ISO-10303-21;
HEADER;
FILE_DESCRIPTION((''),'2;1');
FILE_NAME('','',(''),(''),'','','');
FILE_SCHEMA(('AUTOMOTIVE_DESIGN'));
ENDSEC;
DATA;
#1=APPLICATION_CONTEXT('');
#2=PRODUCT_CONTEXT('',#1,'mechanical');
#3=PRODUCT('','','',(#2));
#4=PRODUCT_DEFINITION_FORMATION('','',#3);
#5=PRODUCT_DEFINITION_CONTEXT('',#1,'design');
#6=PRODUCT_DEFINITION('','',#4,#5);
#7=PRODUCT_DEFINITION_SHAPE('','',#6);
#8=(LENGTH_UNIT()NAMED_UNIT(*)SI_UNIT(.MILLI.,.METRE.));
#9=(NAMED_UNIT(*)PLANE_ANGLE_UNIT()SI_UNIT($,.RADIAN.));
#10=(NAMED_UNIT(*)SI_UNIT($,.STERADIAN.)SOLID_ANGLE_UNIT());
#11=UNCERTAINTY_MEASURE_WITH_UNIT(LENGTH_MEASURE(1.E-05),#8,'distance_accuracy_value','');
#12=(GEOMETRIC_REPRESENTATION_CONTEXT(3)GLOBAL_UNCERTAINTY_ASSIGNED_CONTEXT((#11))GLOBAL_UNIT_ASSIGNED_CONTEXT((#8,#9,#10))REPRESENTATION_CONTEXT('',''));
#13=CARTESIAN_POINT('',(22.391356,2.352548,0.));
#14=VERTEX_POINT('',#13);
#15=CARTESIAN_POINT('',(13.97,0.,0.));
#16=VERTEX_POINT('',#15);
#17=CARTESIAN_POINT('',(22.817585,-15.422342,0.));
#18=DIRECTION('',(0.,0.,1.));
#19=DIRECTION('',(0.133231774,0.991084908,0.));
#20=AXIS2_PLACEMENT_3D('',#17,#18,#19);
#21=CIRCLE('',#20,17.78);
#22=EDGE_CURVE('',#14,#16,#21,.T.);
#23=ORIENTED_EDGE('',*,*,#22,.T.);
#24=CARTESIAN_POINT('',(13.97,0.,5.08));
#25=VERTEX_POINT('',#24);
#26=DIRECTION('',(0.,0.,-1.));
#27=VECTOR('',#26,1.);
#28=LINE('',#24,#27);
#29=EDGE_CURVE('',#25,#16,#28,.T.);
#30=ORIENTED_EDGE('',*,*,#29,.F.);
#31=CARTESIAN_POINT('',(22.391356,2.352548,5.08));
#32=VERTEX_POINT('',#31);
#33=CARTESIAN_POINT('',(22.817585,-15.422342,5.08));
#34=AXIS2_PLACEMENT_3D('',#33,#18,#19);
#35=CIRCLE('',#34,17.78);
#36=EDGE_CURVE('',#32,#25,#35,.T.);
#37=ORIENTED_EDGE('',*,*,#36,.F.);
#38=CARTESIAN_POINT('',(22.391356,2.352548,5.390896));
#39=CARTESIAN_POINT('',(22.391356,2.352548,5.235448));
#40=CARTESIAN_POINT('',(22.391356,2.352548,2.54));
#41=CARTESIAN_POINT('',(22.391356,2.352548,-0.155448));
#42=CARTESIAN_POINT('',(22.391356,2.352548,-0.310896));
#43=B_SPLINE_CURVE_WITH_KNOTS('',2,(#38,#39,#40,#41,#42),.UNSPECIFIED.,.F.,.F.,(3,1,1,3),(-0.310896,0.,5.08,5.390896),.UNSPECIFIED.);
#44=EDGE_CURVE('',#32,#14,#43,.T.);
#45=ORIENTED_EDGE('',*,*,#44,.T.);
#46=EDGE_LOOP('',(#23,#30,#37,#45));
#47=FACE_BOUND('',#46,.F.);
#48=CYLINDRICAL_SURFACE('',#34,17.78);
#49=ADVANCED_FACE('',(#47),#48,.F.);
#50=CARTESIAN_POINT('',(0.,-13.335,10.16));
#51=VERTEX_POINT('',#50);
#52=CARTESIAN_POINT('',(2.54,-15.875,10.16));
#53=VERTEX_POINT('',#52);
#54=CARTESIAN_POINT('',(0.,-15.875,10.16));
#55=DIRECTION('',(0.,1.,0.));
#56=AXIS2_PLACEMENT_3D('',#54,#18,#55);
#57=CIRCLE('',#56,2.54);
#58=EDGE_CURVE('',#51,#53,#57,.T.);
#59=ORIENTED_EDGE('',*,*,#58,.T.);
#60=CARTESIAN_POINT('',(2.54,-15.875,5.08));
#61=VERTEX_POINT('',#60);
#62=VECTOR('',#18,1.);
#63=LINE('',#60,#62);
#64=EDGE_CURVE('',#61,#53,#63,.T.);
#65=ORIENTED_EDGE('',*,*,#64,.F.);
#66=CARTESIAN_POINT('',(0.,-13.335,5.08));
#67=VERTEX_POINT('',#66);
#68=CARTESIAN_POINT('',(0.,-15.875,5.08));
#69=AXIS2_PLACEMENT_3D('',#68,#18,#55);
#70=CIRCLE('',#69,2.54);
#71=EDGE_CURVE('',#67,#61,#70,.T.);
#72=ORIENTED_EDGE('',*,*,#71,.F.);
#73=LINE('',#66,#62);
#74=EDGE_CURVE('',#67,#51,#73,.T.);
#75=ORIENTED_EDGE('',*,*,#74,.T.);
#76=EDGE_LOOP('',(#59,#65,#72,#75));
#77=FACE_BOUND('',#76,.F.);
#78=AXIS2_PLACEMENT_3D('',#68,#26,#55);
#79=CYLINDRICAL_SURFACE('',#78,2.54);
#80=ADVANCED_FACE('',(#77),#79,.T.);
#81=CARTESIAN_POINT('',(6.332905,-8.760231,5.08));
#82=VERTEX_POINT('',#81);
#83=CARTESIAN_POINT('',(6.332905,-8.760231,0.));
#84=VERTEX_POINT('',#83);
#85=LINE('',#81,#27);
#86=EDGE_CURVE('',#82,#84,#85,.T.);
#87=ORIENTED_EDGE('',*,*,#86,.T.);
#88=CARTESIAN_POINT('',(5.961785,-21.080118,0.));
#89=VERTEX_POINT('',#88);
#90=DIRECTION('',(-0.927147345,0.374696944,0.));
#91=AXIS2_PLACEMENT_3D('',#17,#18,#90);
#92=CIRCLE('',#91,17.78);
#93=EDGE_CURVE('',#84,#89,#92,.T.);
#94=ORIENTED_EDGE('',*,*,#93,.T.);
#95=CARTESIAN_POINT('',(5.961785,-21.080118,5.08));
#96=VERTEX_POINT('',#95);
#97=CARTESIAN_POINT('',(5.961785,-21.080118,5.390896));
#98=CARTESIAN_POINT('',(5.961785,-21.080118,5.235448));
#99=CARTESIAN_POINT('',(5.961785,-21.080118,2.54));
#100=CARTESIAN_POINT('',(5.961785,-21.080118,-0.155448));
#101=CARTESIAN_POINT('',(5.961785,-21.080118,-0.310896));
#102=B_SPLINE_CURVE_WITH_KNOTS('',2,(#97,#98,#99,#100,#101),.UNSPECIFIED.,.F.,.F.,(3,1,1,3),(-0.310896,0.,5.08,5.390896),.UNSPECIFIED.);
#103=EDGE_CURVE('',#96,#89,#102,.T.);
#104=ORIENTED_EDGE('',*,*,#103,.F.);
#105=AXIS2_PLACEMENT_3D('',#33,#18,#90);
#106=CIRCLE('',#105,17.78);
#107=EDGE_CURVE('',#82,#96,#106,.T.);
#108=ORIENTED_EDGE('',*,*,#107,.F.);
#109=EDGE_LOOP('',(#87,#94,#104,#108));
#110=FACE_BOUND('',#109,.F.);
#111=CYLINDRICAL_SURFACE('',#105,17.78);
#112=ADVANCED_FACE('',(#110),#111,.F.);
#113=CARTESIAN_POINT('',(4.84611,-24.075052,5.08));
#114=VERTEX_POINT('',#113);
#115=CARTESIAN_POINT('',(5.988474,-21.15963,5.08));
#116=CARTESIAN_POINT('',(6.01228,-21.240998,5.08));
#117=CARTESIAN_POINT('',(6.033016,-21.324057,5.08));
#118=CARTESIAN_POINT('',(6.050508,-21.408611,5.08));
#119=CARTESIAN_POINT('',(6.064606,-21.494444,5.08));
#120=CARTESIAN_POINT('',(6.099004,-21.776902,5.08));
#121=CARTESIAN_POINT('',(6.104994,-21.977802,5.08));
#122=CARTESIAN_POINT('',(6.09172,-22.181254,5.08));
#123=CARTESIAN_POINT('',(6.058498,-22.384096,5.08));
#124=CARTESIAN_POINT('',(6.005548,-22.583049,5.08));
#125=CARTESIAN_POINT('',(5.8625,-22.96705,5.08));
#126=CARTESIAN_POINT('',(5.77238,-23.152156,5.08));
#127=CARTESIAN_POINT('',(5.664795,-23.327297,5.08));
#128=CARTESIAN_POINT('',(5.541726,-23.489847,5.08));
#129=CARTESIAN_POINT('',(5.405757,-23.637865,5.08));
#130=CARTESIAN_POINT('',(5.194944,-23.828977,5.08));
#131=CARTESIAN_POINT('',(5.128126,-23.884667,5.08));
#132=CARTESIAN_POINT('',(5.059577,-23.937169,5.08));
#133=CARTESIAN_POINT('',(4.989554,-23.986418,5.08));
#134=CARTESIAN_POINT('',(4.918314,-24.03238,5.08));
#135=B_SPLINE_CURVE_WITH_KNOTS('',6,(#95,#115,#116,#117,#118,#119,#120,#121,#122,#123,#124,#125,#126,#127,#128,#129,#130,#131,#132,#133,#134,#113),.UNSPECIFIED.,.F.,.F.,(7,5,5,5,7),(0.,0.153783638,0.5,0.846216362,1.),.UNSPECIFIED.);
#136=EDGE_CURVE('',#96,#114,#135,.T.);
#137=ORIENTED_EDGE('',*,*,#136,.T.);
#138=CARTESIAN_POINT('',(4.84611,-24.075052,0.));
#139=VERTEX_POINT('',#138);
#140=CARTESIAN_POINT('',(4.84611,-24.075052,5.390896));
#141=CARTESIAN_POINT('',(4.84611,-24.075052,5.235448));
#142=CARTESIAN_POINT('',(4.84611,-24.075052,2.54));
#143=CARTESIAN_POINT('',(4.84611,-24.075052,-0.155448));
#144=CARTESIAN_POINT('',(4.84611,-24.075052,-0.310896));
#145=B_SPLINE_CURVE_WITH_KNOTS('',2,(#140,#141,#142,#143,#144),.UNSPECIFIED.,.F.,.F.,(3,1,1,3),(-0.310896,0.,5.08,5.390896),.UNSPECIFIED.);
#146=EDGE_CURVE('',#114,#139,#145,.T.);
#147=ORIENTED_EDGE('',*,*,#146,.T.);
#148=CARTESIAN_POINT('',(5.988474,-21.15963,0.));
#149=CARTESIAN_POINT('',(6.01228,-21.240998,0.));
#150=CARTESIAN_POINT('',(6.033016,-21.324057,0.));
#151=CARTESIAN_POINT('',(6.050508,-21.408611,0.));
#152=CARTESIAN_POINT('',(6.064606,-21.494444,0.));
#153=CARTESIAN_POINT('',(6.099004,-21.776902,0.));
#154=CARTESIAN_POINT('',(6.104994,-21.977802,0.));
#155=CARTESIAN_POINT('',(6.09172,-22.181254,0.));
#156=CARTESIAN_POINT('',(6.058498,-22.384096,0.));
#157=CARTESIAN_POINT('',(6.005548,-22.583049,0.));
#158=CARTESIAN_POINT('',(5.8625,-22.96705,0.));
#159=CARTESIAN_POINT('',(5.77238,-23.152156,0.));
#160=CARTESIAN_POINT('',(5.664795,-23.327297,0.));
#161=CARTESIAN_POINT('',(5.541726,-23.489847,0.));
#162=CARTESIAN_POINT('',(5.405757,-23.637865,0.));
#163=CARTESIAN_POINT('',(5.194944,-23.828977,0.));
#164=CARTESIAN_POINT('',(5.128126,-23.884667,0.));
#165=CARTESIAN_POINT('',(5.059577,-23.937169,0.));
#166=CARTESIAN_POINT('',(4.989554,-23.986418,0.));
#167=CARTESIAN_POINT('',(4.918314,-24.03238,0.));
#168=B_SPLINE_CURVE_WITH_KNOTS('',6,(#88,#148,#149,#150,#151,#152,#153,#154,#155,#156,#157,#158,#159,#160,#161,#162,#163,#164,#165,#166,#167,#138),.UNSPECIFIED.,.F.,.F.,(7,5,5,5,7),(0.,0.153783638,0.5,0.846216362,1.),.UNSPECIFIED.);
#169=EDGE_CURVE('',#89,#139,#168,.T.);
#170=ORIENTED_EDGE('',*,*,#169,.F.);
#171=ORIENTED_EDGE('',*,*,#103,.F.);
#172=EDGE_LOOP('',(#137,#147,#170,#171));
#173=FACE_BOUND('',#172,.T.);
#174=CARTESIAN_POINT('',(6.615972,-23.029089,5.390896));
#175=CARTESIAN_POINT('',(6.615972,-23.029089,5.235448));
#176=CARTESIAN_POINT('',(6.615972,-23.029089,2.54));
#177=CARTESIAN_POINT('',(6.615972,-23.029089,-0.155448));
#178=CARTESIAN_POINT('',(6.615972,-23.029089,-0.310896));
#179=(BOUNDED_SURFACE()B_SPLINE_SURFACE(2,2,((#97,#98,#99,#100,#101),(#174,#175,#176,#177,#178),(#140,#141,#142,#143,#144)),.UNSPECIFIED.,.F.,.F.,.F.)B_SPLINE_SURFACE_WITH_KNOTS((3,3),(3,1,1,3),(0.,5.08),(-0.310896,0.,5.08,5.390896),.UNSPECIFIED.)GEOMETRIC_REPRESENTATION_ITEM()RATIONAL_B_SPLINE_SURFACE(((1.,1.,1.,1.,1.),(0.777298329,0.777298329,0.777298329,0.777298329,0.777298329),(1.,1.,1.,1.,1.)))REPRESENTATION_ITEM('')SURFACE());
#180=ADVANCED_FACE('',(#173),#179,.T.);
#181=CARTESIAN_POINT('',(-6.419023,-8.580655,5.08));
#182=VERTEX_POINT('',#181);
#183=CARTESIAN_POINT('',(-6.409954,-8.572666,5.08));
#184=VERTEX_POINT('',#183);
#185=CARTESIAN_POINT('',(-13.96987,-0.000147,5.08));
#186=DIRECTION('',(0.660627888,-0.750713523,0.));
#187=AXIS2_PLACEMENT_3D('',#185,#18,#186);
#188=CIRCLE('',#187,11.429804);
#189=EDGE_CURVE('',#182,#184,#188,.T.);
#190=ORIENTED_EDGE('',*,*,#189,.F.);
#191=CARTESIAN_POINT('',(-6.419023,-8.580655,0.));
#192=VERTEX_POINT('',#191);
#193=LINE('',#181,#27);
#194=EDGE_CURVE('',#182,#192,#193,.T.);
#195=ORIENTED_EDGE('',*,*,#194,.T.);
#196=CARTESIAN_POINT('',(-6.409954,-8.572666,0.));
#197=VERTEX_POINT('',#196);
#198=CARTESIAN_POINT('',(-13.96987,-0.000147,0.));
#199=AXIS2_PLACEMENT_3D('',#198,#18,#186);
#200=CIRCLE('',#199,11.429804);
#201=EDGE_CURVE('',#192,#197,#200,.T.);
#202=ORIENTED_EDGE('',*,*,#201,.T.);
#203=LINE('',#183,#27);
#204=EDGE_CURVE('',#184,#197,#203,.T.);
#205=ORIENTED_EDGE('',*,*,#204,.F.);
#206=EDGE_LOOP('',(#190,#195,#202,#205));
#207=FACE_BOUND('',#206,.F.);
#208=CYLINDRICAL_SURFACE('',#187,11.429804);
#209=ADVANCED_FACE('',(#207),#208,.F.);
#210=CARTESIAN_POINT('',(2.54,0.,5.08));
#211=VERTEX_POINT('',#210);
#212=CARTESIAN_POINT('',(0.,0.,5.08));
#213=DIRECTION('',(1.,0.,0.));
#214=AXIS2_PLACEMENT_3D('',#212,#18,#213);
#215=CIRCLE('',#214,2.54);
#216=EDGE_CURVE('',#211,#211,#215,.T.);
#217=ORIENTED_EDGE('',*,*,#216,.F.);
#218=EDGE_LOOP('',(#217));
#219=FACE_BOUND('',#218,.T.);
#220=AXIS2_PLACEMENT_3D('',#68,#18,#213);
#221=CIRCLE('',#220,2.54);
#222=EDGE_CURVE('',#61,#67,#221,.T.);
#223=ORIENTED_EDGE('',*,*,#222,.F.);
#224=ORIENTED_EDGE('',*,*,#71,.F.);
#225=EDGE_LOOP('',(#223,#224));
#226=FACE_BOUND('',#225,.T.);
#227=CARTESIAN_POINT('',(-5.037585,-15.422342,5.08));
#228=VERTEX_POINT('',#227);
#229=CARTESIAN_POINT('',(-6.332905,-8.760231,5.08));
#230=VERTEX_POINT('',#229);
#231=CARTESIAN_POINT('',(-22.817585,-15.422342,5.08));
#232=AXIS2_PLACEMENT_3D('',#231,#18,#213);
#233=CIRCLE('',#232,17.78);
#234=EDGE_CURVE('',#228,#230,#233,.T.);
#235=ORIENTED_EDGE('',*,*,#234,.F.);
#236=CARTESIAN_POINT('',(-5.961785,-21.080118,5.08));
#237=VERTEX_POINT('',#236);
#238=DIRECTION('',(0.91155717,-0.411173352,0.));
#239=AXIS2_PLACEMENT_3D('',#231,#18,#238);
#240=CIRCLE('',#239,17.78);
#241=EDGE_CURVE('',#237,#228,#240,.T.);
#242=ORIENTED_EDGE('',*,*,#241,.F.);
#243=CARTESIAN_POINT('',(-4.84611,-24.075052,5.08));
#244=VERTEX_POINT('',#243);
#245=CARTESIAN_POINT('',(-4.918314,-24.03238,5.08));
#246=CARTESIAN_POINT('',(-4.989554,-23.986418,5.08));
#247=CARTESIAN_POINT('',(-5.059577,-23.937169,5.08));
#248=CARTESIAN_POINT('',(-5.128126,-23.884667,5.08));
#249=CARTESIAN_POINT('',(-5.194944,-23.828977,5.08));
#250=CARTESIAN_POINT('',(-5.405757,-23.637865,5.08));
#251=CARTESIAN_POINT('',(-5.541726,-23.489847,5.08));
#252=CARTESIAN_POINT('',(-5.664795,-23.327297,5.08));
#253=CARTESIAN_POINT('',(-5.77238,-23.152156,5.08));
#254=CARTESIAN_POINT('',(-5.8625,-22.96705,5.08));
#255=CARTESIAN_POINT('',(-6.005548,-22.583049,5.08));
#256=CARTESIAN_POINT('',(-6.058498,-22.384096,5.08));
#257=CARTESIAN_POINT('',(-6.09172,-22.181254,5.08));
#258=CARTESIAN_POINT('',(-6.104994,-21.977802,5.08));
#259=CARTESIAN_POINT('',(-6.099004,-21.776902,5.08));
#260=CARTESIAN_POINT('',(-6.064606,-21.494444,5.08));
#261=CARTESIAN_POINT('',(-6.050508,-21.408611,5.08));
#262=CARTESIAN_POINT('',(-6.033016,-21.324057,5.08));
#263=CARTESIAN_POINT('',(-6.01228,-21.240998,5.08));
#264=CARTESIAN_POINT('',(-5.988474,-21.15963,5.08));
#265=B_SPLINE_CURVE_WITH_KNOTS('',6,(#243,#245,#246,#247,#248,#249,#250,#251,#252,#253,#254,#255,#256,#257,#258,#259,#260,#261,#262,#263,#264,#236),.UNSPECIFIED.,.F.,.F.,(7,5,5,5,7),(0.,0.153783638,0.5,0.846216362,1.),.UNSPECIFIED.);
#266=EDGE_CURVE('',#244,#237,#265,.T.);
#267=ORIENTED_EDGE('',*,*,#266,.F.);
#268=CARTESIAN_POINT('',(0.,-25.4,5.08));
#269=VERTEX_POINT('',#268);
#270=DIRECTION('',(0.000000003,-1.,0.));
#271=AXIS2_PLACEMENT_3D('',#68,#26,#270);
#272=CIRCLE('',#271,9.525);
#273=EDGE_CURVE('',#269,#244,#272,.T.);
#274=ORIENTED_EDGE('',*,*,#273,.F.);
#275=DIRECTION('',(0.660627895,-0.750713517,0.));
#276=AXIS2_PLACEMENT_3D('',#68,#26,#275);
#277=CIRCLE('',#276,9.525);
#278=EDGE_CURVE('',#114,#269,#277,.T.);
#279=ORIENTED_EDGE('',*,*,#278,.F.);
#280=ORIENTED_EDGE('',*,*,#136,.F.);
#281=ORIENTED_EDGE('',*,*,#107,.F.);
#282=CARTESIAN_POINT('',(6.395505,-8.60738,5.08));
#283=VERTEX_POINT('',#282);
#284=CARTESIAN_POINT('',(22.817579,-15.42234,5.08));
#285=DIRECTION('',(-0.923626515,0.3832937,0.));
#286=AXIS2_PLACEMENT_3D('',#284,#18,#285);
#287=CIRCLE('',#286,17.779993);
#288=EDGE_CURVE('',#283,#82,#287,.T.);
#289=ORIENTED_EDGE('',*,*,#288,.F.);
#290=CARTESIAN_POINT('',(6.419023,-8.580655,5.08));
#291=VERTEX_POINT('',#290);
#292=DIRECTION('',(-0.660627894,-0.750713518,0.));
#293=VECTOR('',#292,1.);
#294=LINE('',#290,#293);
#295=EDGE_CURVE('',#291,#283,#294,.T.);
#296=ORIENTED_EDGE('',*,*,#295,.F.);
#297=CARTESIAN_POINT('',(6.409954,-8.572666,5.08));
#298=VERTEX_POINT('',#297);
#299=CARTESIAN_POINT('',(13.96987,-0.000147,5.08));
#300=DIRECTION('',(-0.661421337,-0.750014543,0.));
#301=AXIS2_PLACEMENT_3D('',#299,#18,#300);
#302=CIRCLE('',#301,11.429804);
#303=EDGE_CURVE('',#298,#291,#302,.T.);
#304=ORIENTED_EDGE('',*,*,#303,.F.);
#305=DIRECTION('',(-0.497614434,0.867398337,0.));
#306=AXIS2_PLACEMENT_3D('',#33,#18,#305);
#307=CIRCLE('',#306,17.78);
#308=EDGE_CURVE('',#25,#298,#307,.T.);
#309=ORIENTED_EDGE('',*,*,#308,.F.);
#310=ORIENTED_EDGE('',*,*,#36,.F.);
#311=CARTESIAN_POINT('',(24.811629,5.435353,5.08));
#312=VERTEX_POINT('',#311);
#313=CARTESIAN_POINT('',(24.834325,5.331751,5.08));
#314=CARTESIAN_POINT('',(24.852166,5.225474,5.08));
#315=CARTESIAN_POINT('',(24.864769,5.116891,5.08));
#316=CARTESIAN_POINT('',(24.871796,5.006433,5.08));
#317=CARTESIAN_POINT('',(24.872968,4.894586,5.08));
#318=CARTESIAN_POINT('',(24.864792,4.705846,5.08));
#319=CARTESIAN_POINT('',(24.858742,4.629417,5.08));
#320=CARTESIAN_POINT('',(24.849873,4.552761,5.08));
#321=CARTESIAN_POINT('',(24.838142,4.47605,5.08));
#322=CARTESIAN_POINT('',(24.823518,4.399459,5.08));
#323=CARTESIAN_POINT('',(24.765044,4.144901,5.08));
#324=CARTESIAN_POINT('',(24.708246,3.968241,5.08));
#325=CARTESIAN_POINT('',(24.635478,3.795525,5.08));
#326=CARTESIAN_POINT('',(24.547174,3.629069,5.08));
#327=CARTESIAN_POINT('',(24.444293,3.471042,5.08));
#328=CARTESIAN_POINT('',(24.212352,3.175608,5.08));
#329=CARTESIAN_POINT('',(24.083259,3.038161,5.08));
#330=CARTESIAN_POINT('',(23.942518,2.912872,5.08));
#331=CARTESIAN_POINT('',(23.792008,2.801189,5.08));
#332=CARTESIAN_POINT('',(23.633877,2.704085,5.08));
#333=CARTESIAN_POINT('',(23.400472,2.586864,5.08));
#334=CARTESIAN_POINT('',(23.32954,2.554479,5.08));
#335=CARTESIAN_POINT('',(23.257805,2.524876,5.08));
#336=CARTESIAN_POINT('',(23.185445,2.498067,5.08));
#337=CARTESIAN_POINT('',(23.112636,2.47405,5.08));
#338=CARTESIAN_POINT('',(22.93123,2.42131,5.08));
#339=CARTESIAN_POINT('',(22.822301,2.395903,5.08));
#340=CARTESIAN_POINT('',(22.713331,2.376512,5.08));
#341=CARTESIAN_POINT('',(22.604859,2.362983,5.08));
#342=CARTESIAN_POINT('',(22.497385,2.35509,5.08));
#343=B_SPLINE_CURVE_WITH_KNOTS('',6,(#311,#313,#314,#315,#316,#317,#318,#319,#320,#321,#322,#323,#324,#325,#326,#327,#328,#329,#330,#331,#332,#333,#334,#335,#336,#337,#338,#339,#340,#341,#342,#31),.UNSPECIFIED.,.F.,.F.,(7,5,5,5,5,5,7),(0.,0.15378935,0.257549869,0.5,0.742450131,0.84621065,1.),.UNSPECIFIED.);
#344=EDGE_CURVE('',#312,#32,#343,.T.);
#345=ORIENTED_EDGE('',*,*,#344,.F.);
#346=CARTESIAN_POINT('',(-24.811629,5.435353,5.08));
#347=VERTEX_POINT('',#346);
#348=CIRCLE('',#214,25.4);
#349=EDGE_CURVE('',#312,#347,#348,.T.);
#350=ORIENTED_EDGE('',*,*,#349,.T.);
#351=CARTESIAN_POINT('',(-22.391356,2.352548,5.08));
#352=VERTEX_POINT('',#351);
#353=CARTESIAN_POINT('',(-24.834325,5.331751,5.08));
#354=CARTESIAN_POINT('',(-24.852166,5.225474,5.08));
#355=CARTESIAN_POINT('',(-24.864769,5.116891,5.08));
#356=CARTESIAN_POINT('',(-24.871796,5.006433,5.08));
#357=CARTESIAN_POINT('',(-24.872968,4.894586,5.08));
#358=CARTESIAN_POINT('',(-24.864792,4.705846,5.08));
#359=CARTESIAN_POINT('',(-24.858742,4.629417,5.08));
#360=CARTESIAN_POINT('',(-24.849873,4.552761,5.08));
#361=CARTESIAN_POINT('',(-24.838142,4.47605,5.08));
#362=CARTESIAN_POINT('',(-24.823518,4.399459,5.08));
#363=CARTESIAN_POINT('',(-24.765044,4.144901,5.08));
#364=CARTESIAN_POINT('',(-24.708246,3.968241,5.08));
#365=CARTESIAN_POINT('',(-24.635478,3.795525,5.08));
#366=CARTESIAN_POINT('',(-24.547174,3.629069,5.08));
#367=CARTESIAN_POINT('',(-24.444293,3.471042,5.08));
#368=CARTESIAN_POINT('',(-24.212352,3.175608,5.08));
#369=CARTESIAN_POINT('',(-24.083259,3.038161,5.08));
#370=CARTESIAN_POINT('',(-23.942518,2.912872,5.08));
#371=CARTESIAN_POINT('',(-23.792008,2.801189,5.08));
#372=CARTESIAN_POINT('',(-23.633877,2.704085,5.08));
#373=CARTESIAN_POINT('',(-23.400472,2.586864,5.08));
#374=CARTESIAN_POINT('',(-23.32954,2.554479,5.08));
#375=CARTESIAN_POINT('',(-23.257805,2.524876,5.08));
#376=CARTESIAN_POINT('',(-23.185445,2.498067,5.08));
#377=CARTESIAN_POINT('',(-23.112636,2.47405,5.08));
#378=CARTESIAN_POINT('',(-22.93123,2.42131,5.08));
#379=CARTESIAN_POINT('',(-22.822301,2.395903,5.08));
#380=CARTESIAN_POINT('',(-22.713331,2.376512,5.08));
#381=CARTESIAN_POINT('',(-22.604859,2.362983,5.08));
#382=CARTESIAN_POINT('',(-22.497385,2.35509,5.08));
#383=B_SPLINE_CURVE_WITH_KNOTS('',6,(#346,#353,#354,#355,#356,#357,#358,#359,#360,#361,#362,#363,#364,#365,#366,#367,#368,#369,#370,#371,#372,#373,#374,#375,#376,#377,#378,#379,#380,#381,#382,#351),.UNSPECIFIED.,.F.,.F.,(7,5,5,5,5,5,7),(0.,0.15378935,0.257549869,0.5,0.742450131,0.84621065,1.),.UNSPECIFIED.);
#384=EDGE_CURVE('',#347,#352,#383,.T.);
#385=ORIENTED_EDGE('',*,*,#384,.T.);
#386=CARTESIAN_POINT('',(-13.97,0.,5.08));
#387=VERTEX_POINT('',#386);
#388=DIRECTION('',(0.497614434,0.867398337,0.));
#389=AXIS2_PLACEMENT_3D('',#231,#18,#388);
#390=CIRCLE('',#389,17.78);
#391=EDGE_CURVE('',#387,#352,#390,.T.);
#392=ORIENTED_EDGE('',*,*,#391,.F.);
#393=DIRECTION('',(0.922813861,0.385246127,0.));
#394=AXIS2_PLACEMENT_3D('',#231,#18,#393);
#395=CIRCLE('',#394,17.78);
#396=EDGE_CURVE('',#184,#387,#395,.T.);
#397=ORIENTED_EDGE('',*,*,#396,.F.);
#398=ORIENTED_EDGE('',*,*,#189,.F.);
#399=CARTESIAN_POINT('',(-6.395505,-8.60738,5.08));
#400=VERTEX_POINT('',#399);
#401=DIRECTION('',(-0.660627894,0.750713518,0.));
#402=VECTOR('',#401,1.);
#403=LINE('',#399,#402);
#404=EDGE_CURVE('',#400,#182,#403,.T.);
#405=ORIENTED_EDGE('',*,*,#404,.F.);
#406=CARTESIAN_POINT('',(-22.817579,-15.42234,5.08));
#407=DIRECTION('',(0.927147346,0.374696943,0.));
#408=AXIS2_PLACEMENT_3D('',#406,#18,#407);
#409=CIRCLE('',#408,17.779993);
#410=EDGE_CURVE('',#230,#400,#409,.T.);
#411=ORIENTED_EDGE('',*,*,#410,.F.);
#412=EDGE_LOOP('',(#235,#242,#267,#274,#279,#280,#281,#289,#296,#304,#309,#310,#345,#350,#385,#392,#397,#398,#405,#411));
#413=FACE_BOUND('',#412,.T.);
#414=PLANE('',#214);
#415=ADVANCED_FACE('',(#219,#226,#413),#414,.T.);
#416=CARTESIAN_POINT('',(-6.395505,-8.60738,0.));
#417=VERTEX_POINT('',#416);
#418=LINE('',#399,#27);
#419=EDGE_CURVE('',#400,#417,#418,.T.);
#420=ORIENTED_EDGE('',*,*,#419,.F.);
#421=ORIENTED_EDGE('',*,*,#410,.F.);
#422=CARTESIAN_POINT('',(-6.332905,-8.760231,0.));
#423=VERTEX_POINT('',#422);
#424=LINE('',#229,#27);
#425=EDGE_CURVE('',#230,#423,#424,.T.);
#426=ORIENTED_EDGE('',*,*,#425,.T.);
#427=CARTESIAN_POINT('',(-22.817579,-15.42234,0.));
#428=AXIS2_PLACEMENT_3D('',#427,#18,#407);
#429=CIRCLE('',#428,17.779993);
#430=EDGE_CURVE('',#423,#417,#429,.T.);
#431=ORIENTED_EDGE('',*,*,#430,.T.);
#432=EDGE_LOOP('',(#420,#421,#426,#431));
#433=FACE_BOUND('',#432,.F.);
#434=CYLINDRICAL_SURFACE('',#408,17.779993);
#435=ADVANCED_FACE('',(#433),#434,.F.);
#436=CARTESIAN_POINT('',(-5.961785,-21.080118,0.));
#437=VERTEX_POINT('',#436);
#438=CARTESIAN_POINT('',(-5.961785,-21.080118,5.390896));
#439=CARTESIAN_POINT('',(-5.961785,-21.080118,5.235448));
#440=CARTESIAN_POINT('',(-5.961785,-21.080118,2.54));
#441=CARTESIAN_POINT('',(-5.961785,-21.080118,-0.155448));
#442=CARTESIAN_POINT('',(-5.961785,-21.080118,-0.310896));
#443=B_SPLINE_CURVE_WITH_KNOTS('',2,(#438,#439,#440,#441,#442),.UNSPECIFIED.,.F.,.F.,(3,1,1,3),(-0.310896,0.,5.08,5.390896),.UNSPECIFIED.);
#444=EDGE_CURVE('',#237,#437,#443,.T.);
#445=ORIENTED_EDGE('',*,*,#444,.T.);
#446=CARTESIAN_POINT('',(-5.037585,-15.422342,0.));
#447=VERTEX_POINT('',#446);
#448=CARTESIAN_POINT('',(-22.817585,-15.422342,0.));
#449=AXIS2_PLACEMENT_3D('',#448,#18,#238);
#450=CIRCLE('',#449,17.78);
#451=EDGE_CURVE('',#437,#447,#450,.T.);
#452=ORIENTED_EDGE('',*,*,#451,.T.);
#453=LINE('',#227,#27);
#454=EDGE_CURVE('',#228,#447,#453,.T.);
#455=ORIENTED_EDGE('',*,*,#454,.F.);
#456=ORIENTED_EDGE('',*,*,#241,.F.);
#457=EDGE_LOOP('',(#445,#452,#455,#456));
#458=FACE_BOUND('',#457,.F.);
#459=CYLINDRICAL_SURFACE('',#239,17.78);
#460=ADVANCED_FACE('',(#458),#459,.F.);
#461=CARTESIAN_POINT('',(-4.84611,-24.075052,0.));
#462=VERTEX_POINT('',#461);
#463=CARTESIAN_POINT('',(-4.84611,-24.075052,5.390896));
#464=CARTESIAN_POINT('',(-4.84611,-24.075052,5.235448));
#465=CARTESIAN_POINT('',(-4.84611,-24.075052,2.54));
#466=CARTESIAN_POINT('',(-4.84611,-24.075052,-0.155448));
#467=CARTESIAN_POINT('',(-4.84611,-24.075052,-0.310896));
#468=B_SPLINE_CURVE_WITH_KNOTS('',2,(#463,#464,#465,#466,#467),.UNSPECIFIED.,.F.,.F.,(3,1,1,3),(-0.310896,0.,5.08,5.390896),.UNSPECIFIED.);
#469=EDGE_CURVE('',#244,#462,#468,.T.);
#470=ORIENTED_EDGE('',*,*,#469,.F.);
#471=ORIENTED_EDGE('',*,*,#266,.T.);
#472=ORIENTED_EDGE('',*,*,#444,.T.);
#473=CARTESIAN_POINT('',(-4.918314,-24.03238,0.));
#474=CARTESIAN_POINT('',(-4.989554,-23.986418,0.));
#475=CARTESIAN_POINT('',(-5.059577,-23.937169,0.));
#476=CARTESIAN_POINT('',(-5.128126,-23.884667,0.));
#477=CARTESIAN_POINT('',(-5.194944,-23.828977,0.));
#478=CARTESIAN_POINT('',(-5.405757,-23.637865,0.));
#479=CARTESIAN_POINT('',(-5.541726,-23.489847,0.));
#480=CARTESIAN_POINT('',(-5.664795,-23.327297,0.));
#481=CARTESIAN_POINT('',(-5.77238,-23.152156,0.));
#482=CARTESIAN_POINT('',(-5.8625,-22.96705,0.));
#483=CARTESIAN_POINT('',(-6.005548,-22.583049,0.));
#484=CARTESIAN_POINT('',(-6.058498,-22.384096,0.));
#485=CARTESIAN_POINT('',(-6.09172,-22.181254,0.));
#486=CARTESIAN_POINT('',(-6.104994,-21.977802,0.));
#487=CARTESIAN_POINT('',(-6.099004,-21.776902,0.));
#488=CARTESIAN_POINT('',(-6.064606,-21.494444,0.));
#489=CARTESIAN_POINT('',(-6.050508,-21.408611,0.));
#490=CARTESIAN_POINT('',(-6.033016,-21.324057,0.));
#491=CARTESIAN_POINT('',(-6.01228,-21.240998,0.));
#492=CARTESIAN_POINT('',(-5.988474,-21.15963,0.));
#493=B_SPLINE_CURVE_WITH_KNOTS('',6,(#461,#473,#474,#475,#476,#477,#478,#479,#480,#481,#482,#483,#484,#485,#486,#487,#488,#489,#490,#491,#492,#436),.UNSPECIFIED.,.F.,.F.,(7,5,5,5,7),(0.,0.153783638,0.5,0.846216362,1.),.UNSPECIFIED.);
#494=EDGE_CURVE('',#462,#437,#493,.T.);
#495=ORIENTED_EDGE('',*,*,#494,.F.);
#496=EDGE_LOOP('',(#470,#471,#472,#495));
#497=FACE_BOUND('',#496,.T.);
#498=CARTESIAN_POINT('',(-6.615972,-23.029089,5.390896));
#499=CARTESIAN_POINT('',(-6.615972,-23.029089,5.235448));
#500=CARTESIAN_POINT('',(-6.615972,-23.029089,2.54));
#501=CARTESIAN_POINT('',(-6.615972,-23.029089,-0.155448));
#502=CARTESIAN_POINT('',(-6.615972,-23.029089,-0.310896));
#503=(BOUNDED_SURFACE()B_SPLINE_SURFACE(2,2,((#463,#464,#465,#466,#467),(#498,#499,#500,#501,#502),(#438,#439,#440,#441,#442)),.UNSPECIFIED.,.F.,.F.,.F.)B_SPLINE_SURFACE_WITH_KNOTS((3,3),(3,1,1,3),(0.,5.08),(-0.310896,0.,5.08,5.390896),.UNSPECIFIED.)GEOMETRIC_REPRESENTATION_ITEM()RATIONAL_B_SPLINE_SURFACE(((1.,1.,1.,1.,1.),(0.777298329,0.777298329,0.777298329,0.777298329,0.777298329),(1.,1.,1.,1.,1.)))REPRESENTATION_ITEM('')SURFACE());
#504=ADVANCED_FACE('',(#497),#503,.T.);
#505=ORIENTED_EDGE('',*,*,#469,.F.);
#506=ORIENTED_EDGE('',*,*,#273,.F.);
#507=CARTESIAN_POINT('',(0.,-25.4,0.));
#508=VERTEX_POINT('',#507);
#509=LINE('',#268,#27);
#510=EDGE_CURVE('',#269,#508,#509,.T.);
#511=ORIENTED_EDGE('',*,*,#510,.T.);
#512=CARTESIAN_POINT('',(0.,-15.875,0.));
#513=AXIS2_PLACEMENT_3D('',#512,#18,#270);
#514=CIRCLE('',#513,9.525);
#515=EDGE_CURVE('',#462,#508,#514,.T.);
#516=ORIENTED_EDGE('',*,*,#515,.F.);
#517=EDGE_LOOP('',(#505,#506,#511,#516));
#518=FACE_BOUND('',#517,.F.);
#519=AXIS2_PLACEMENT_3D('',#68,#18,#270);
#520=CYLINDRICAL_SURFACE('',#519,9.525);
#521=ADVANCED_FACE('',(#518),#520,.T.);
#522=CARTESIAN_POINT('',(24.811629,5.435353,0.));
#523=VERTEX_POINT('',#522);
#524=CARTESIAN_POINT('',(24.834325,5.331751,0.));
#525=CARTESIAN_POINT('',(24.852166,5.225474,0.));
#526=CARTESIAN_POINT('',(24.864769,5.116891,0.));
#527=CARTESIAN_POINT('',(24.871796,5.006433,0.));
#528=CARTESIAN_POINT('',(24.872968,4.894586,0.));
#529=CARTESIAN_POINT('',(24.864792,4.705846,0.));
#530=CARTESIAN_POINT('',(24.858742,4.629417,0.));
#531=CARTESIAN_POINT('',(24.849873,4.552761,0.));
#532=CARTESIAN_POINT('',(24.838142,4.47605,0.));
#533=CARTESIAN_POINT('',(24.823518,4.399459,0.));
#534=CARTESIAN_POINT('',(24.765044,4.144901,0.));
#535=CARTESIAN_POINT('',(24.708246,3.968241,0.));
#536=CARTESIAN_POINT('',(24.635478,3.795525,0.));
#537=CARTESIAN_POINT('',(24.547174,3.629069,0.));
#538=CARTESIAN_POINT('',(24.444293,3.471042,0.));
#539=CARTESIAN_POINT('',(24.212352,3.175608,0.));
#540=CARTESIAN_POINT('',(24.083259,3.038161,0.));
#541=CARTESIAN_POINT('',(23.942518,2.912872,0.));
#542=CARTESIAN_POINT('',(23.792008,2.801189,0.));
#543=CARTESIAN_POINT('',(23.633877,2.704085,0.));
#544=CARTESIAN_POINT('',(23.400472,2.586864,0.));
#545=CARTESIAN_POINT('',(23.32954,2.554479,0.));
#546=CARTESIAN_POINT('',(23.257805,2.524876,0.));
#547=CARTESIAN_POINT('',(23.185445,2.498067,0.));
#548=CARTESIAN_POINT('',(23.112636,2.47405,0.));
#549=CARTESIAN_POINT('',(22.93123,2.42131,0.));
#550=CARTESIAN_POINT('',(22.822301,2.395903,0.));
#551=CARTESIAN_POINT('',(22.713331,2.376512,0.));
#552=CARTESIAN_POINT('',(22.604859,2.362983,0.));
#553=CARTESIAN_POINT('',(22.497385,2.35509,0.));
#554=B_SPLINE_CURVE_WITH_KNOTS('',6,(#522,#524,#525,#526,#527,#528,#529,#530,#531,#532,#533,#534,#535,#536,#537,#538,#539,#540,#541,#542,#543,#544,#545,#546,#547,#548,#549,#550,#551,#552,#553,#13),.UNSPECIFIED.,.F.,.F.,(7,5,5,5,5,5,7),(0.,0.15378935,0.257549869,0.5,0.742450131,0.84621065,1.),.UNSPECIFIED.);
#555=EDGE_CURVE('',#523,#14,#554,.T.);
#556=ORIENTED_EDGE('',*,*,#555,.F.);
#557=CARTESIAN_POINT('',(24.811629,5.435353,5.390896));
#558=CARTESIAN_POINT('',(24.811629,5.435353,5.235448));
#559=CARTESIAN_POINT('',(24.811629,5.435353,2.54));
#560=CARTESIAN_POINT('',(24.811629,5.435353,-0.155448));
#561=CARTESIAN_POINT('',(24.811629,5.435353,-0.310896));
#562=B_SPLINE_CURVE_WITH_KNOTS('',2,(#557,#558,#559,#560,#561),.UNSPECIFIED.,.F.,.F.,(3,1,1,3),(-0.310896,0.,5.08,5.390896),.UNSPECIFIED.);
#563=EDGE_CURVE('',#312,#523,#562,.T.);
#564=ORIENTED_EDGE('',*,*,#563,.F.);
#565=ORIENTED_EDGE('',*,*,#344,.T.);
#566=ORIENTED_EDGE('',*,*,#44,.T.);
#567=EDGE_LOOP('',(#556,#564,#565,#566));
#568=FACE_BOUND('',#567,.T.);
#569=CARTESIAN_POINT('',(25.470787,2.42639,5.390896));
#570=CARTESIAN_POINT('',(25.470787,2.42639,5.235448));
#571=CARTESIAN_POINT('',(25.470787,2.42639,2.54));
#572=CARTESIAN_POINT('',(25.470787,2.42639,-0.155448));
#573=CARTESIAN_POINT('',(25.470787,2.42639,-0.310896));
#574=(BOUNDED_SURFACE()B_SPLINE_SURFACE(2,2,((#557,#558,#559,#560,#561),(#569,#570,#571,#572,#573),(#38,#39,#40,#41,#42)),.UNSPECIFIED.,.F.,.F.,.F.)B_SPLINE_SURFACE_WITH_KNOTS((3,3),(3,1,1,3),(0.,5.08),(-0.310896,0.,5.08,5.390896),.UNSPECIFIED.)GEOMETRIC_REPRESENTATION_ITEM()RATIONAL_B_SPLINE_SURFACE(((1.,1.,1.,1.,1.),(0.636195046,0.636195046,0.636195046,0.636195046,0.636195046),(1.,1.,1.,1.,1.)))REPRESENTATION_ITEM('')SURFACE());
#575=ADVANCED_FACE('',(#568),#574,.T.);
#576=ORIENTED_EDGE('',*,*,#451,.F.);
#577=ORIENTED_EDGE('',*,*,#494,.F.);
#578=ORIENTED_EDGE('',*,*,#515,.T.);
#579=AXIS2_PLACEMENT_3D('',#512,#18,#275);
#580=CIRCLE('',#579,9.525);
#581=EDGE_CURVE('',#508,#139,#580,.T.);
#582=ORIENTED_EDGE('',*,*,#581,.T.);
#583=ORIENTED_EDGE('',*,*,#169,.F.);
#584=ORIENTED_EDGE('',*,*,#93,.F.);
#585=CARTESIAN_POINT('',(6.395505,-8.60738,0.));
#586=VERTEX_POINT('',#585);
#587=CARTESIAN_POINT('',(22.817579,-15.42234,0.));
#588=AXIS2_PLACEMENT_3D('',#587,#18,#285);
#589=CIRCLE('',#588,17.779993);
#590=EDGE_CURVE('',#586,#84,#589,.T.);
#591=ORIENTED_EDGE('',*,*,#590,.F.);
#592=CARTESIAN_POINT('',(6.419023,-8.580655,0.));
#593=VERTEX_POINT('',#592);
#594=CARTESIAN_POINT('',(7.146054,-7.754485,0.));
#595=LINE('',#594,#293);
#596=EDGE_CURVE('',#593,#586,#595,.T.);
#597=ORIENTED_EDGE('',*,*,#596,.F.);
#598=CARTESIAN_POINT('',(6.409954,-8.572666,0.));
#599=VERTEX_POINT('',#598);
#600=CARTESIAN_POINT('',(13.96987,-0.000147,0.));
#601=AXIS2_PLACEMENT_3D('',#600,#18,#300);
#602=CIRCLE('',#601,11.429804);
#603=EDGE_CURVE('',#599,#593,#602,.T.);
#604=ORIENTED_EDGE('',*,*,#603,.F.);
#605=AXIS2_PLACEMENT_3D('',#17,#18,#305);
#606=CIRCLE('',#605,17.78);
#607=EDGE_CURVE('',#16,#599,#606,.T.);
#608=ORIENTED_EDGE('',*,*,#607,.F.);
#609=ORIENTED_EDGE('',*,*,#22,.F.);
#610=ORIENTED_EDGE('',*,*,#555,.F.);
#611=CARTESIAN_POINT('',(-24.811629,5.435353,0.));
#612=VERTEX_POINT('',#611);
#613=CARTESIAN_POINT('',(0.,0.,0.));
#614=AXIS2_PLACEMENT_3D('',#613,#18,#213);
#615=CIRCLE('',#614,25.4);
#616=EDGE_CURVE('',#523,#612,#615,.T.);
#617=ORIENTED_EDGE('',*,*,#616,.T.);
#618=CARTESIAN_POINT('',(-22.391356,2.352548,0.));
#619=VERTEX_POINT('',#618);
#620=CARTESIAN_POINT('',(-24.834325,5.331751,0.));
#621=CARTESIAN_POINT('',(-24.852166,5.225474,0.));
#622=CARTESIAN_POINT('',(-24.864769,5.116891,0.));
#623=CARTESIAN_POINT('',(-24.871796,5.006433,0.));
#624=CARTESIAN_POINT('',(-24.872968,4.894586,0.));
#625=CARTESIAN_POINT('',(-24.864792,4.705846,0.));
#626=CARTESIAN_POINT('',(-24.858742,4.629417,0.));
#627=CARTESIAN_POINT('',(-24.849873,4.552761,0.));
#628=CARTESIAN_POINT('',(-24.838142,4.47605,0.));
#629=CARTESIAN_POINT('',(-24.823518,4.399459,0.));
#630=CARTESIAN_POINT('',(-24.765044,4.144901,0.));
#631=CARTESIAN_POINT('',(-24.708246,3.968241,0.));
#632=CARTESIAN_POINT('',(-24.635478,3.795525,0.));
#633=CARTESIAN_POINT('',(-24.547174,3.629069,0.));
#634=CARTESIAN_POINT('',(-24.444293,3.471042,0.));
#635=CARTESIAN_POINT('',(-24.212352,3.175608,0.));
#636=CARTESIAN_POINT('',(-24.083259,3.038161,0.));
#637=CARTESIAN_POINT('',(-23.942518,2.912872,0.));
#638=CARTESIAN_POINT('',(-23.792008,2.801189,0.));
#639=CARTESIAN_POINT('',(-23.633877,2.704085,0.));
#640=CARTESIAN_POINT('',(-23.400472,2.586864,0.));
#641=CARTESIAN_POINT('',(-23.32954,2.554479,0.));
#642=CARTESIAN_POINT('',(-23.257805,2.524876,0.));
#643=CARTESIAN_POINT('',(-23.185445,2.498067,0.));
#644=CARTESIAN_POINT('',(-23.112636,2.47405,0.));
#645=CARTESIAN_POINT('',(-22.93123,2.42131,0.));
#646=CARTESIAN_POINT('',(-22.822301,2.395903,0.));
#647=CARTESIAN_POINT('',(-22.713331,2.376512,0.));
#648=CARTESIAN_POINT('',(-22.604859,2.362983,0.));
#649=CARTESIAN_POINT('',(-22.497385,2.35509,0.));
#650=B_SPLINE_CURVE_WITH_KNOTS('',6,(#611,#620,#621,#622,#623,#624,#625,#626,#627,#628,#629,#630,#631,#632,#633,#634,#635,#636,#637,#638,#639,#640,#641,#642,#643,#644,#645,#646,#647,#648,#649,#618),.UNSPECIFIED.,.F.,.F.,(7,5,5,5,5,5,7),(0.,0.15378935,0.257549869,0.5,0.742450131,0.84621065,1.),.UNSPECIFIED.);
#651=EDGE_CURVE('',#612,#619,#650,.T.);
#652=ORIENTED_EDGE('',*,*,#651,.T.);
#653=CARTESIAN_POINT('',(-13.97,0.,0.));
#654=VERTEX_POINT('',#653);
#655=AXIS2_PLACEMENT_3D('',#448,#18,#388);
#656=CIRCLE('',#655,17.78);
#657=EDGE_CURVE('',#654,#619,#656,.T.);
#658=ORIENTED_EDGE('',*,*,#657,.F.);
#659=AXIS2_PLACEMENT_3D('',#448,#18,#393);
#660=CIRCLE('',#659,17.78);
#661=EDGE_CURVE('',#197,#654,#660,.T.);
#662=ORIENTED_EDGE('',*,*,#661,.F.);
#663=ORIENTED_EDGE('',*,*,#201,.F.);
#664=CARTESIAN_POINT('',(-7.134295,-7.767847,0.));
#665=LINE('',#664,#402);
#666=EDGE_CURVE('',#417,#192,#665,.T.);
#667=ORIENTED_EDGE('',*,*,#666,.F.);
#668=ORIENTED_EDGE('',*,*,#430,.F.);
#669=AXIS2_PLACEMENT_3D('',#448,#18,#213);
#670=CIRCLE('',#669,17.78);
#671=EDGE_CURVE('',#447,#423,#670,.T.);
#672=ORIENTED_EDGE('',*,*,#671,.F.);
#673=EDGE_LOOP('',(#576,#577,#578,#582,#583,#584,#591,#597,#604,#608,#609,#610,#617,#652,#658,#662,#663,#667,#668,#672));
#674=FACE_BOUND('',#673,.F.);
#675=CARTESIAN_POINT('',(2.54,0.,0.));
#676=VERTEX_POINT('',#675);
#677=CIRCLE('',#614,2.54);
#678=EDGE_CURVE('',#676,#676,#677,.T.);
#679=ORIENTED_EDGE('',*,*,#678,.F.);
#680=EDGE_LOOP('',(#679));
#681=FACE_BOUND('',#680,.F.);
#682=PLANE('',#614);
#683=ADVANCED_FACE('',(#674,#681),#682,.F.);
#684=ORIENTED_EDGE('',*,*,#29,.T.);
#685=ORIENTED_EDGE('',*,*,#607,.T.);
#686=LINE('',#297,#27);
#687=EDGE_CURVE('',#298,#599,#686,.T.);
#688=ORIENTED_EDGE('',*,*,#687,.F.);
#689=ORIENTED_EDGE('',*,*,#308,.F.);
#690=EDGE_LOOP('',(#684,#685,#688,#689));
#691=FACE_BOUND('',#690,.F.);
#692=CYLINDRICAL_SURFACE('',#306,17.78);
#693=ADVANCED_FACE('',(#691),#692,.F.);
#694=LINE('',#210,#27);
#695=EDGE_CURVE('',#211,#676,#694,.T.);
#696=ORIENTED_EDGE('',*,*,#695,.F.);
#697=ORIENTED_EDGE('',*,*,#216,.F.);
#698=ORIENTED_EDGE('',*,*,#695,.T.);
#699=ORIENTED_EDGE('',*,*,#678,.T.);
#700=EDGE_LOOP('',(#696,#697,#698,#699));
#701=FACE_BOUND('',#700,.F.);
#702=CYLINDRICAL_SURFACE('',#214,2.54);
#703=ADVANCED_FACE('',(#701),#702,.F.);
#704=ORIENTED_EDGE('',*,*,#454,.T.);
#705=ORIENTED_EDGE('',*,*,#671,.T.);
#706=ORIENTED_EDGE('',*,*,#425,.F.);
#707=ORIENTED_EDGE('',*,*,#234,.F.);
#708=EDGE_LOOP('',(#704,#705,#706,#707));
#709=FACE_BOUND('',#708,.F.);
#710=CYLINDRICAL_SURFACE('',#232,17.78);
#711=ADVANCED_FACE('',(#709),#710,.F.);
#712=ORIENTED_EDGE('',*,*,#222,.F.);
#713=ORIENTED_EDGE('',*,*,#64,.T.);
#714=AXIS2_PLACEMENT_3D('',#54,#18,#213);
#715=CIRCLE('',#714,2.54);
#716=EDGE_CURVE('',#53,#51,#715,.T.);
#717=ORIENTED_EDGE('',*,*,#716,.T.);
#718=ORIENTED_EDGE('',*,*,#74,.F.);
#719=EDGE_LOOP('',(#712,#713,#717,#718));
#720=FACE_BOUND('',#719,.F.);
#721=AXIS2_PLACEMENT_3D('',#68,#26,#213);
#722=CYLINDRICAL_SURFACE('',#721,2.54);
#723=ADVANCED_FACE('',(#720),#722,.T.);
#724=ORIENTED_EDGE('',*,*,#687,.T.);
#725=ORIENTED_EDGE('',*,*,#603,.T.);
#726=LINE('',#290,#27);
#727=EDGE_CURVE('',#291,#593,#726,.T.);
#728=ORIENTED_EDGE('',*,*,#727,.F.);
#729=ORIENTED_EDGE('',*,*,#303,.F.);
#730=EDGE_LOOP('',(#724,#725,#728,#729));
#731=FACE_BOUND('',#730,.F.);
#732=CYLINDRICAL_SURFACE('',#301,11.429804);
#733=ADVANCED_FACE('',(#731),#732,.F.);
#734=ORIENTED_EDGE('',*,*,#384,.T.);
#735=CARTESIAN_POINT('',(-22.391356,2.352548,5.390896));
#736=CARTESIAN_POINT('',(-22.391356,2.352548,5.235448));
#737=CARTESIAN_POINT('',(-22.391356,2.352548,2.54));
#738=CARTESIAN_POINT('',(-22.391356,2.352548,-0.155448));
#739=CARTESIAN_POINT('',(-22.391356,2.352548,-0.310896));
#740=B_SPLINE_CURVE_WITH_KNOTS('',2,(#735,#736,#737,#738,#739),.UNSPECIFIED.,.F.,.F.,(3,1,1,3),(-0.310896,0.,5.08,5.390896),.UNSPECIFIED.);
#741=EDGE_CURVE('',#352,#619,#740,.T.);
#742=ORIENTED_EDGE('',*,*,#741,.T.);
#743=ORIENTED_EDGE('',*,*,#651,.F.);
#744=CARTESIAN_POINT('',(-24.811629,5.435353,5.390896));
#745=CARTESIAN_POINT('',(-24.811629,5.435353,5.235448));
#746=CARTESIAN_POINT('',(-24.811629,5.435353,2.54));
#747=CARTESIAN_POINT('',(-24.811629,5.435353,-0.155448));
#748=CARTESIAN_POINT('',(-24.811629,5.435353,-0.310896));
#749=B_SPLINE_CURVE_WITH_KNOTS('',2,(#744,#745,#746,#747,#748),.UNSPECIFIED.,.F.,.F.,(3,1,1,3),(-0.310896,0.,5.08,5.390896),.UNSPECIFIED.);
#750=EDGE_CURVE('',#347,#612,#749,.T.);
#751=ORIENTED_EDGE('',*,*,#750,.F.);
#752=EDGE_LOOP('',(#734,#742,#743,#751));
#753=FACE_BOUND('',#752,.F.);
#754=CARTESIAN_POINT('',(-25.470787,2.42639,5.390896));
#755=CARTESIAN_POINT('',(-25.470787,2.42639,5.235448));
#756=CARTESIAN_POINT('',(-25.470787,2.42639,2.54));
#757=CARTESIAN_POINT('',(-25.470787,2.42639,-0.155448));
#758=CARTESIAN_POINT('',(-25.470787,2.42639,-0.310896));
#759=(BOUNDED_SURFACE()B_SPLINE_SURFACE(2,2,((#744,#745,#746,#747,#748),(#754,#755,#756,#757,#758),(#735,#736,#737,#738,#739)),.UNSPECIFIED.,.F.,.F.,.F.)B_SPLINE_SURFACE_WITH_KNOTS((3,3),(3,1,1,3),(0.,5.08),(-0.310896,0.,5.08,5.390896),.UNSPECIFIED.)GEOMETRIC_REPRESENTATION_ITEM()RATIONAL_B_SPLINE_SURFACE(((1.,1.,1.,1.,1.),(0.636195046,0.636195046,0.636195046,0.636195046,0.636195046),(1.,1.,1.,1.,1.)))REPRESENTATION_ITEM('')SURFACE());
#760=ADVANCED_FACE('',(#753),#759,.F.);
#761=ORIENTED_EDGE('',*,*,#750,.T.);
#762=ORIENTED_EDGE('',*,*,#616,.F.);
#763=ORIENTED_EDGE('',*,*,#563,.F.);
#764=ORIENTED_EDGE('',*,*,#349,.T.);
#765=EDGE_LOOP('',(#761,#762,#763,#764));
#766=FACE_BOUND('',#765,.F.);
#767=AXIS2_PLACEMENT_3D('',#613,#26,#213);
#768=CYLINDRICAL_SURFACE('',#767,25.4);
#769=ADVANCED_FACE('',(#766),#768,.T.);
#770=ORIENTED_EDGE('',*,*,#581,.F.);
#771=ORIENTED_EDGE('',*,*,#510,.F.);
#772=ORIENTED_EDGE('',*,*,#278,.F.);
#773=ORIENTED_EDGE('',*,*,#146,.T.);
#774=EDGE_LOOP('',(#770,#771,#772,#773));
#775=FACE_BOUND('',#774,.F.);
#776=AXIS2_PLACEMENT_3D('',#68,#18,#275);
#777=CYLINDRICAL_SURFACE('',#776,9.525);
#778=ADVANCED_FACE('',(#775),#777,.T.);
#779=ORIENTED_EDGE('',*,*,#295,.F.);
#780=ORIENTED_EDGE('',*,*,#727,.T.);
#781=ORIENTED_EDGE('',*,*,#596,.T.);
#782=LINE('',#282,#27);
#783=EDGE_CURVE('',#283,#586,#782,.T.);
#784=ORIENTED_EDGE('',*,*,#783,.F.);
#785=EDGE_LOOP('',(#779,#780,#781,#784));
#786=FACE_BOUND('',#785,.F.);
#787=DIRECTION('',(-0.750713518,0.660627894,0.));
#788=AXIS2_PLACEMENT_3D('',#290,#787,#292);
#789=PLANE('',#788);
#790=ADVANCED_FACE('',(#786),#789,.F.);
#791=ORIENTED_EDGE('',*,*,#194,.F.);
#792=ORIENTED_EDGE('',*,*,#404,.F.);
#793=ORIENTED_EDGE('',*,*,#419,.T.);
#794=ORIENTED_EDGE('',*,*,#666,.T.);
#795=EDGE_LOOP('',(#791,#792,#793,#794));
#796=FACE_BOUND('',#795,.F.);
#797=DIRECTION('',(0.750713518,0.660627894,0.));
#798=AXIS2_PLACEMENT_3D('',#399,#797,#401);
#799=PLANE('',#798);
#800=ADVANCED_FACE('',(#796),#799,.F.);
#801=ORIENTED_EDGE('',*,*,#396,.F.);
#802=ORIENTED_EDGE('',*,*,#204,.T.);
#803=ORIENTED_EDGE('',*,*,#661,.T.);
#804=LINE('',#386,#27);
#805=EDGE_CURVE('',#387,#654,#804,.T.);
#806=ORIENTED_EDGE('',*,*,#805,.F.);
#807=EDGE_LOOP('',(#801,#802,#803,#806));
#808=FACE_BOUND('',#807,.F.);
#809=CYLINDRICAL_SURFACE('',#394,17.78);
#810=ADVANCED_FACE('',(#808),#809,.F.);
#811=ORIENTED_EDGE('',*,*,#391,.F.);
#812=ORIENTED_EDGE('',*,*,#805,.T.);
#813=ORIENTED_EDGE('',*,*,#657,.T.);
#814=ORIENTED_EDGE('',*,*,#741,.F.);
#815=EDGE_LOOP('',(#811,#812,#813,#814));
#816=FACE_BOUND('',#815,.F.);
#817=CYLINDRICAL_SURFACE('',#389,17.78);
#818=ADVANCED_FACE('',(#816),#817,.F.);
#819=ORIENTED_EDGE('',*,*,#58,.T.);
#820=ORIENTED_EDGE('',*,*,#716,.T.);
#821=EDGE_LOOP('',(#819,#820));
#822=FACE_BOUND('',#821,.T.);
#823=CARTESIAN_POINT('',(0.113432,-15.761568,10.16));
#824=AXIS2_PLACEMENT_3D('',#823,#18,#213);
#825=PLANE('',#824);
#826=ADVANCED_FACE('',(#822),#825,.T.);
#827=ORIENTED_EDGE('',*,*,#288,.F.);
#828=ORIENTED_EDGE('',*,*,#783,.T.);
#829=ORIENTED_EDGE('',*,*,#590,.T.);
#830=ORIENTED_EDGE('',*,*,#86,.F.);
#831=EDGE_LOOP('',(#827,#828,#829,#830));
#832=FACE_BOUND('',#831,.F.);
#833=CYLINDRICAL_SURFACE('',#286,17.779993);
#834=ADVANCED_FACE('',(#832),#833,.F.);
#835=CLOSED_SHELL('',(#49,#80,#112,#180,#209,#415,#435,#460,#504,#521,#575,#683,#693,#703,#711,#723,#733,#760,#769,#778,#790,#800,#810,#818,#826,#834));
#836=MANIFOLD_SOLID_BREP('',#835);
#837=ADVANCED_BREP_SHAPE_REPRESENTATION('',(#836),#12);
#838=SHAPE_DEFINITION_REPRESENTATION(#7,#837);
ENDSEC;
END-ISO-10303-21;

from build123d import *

# Parameters (mm, degrees)
F0_R     = 25.4
F1_DEPTH = 5.08
F3_DEPTH = 25.4
F4_R     = 2.54
F5_R     = 2.54
F6_DEPTH = 25.4
F8_DEPTH = 5.08


with BuildPart() as f1:
    # F0 (on Top) → F1 (new body)
    with BuildSketch(Plane.XY):
        Circle(F0_R)
    extrude(amount=F1_DEPTH)

    # F2 (on face) → F3 (cut)
    with BuildSketch(Plane.XY.offset(5.08)):
        with BuildLine():
            ThreePointArc((-6.6100981471, -22.7330046286), (-9.5231262698, -15.6860792516), (-6.3329048366, -8.7602307605))
            ThreePointArc((-6.3329048366, -8.7602307605), (-6.3640275163, -8.6837329224), (-6.3955051853, -8.6073804713))
            Line((-6.3955051853, -8.6073804713), (-6.4190231614, -8.5806554984))
            ThreePointArc((-6.4190231614, -8.5806554984), (-18.6783561202, -10.4151947963), (-25.4, -3e-09))
            ThreePointArc((-25.4, -3e-09), (-20.4128361311, -15.1154265929), (-7.4097542481, -24.295175282))
            ThreePointArc((-7.4097542481, -24.295175282), (-6.9906405345, -23.523962051), (-6.6100981471, -22.7330046286))
        make_face()
        with BuildLine():
            Line((-13.97, 0), (-6.4190231614, -8.5806554984))
            ThreePointArc((-6.4190231614, -8.5806554984), (-6.4144876205, -8.5766620945), (-6.4099541915, -8.5726662931))
            ThreePointArc((-6.4099541915, -8.5726662931), (-9.482325957, -3.6622711754), (-13.97, 0))
        make_face()
        with BuildLine():
            ThreePointArc((-25.4, -3e-09), (-18.6783561202, -10.4151947963), (-6.4190231614, -8.5806554984))
            Line((-6.4190231614, -8.5806554984), (-13.97, 0))
            ThreePointArc((-13.97, 0), (-19.3966889497, 2.0254618044), (-25.1864455812, 2.1991472264))
            ThreePointArc((-25.1864455812, 2.1991472264), (-25.3464861227, 1.1047458984), (-25.4, -3e-09))
        make_face()
        with BuildLine():
            ThreePointArc((-5.0375846352, -15.4223424331), (-5.3644186356, -12.0289080974), (-6.3329048366, -8.7602307605))
            ThreePointArc((-6.3329048366, -8.7602307605), (-9.5231262698, -15.6860792516), (-6.6100981471, -22.7330046286))
            ThreePointArc((-6.6100981471, -22.7330046286), (-5.4351580244, -19.1612787953), (-5.0375846352, -15.4223424331))
        make_face()
        with BuildLine():
            ThreePointArc((-7.4097542481, -24.295175282), (-3.7458341923, -25.1222754981), (3.3e-08, -25.4))
            ThreePointArc((3.3e-08, -25.4), (-3.3627869226, -24.7866378468), (-6.2924806988, -23.0255462487))
            Line((-6.2924806988, -23.0255462487), (-7.4097542481, -24.295175282))
        make_face()
        with BuildLine():
            Line((7.4097542481, -24.295175282), (6.2924806988, -23.0255462487))
            ThreePointArc((6.2924806988, -23.0255462487), (3.3627869535, -24.7866378352), (3.3e-08, -25.4))
            ThreePointArc((3.3e-08, -25.4), (3.745834225, -25.1222754933), (7.4097542481, -24.295175282))
        make_face()
        with BuildLine():
            ThreePointArc((6.3329048366, -8.7602307605), (8.690412636, -11.9759804802), (9.525, -15.875))
            ThreePointArc((9.525, -15.875), (8.7660370137, -19.6008851398), (6.6100981471, -22.7330046286))
            ThreePointArc((6.6100981471, -22.7330046286), (6.9906405345, -23.523962051), (7.4097542481, -24.295175282))
            ThreePointArc((7.4097542481, -24.295175282), (20.412836132, -15.1154265917), (25.4, 0))
            ThreePointArc((25.4, 0), (18.6783561215, -10.4151947957), (6.4190231614, -8.5806554984))
            Line((6.4190231614, -8.5806554984), (6.3955051853, -8.6073804713))
            ThreePointArc((6.3955051853, -8.6073804713), (6.3640275163, -8.6837329224), (6.3329048366, -8.7602307605))
        make_face()
        with BuildLine():
            Line((13.97, 0), (6.4190231614, -8.5806554984))
            ThreePointArc((6.4190231614, -8.5806554984), (18.6783561215, -10.4151947957), (25.4, 0))
            ThreePointArc((25.4, 0), (25.3464861226, 1.1047458999), (25.1864455812, 2.1991472264))
            ThreePointArc((25.1864455812, 2.1991472264), (19.3966889497, 2.0254618044), (13.97, 0))
        make_face()
        with BuildLine():
            ThreePointArc((6.6100981471, -22.7330046286), (8.7660370137, -19.6008851398), (9.525, -15.875))
            ThreePointArc((9.525, -15.875), (8.690412636, -11.9759804802), (6.3329048366, -8.7602307605))
            ThreePointArc((6.3329048366, -8.7602307605), (5.0410822649, -15.7749944968), (6.6100981471, -22.7330046286))
        make_face()
        with BuildLine():
            ThreePointArc((6.4099541915, -8.5726662931), (6.4144876205, -8.5766620945), (6.4190231614, -8.5806554984))
            Line((6.4190231614, -8.5806554984), (13.97, 0))
            ThreePointArc((13.97, 0), (9.482325957, -3.6622711754), (6.4099541915, -8.5726662931))
        make_face()
        with BuildLine():
            Line((-7.4097542481, -24.295175282), (-6.2924806988, -23.0255462487))
            ThreePointArc((-6.2924806988, -23.0255462487), (-6.4529474172, -22.8810755514), (-6.6100981471, -22.7330046286))
            ThreePointArc((-6.6100981471, -22.7330046286), (-6.9906405345, -23.523962051), (-7.4097542481, -24.295175282))
        make_face()
        with BuildLine():
            ThreePointArc((7.4097542481, -24.295175282), (6.9906405345, -23.523962051), (6.6100981471, -22.7330046286))
            ThreePointArc((6.6100981471, -22.7330046286), (6.4529474172, -22.8810755514), (6.2924806988, -23.0255462487))
            Line((6.2924806988, -23.0255462487), (7.4097542481, -24.295175282))
        make_face()
        with BuildLine():
            ThreePointArc((-25.1864455812, 2.1991472264), (-25.2462602872, 2.1910029214), (-25.306046997, 2.1826555809))
            ThreePointArc((-25.306046997, 2.1826555809), (-25.3765008791, 1.0923383792), (-25.4, -3e-09))
            ThreePointArc((-25.4, -3e-09), (-25.3464861227, 1.1047458984), (-25.1864455812, 2.1991472264))
        make_face()
        with BuildLine():
            ThreePointArc((25.1864455812, 2.1991472264), (25.3464861226, 1.1047458999), (25.4, 0))
            ThreePointArc((25.4, 0), (25.376500879, 1.0923383807), (25.306046997, 2.1826555809))
            ThreePointArc((25.306046997, 2.1826555809), (25.2462602872, 2.1910029214), (25.1864455812, 2.1991472264))
        make_face()
    extrude(amount=-F3_DEPTH, mode=Mode.SUBTRACT)

    # F4
    f4_edges = [f1.edges().sort_by_distance(p)[0] for p in [
        (-25.306047, 2.182656, 2.54),
        (-6.610098, -22.733005, 2.54),
        (6.610098, -22.733005, 2.54),
        (25.306047, 2.182656, 2.54),
    ]]
    fillet(f4_edges, radius=F4_R)

    # F5 (on face) → F6 (cut)
    with BuildSketch(Plane.XY.offset(5.08)):
        Circle(F5_R)
    extrude(amount=-F6_DEPTH, mode=Mode.SUBTRACT)

    # F7 (on face) → F8 (join)
    with BuildSketch(Plane.XY.offset(5.08)):
        with BuildLine():
            ThreePointArc((0, -13.335), (-1.7960512242, -17.6710512242), (2.54, -15.875))
            ThreePointArc((2.54, -15.875), (1.7960512242, -14.0789487758), (0, -13.335))
        make_face()
    extrude(amount=F8_DEPTH)


solid = f1.part
